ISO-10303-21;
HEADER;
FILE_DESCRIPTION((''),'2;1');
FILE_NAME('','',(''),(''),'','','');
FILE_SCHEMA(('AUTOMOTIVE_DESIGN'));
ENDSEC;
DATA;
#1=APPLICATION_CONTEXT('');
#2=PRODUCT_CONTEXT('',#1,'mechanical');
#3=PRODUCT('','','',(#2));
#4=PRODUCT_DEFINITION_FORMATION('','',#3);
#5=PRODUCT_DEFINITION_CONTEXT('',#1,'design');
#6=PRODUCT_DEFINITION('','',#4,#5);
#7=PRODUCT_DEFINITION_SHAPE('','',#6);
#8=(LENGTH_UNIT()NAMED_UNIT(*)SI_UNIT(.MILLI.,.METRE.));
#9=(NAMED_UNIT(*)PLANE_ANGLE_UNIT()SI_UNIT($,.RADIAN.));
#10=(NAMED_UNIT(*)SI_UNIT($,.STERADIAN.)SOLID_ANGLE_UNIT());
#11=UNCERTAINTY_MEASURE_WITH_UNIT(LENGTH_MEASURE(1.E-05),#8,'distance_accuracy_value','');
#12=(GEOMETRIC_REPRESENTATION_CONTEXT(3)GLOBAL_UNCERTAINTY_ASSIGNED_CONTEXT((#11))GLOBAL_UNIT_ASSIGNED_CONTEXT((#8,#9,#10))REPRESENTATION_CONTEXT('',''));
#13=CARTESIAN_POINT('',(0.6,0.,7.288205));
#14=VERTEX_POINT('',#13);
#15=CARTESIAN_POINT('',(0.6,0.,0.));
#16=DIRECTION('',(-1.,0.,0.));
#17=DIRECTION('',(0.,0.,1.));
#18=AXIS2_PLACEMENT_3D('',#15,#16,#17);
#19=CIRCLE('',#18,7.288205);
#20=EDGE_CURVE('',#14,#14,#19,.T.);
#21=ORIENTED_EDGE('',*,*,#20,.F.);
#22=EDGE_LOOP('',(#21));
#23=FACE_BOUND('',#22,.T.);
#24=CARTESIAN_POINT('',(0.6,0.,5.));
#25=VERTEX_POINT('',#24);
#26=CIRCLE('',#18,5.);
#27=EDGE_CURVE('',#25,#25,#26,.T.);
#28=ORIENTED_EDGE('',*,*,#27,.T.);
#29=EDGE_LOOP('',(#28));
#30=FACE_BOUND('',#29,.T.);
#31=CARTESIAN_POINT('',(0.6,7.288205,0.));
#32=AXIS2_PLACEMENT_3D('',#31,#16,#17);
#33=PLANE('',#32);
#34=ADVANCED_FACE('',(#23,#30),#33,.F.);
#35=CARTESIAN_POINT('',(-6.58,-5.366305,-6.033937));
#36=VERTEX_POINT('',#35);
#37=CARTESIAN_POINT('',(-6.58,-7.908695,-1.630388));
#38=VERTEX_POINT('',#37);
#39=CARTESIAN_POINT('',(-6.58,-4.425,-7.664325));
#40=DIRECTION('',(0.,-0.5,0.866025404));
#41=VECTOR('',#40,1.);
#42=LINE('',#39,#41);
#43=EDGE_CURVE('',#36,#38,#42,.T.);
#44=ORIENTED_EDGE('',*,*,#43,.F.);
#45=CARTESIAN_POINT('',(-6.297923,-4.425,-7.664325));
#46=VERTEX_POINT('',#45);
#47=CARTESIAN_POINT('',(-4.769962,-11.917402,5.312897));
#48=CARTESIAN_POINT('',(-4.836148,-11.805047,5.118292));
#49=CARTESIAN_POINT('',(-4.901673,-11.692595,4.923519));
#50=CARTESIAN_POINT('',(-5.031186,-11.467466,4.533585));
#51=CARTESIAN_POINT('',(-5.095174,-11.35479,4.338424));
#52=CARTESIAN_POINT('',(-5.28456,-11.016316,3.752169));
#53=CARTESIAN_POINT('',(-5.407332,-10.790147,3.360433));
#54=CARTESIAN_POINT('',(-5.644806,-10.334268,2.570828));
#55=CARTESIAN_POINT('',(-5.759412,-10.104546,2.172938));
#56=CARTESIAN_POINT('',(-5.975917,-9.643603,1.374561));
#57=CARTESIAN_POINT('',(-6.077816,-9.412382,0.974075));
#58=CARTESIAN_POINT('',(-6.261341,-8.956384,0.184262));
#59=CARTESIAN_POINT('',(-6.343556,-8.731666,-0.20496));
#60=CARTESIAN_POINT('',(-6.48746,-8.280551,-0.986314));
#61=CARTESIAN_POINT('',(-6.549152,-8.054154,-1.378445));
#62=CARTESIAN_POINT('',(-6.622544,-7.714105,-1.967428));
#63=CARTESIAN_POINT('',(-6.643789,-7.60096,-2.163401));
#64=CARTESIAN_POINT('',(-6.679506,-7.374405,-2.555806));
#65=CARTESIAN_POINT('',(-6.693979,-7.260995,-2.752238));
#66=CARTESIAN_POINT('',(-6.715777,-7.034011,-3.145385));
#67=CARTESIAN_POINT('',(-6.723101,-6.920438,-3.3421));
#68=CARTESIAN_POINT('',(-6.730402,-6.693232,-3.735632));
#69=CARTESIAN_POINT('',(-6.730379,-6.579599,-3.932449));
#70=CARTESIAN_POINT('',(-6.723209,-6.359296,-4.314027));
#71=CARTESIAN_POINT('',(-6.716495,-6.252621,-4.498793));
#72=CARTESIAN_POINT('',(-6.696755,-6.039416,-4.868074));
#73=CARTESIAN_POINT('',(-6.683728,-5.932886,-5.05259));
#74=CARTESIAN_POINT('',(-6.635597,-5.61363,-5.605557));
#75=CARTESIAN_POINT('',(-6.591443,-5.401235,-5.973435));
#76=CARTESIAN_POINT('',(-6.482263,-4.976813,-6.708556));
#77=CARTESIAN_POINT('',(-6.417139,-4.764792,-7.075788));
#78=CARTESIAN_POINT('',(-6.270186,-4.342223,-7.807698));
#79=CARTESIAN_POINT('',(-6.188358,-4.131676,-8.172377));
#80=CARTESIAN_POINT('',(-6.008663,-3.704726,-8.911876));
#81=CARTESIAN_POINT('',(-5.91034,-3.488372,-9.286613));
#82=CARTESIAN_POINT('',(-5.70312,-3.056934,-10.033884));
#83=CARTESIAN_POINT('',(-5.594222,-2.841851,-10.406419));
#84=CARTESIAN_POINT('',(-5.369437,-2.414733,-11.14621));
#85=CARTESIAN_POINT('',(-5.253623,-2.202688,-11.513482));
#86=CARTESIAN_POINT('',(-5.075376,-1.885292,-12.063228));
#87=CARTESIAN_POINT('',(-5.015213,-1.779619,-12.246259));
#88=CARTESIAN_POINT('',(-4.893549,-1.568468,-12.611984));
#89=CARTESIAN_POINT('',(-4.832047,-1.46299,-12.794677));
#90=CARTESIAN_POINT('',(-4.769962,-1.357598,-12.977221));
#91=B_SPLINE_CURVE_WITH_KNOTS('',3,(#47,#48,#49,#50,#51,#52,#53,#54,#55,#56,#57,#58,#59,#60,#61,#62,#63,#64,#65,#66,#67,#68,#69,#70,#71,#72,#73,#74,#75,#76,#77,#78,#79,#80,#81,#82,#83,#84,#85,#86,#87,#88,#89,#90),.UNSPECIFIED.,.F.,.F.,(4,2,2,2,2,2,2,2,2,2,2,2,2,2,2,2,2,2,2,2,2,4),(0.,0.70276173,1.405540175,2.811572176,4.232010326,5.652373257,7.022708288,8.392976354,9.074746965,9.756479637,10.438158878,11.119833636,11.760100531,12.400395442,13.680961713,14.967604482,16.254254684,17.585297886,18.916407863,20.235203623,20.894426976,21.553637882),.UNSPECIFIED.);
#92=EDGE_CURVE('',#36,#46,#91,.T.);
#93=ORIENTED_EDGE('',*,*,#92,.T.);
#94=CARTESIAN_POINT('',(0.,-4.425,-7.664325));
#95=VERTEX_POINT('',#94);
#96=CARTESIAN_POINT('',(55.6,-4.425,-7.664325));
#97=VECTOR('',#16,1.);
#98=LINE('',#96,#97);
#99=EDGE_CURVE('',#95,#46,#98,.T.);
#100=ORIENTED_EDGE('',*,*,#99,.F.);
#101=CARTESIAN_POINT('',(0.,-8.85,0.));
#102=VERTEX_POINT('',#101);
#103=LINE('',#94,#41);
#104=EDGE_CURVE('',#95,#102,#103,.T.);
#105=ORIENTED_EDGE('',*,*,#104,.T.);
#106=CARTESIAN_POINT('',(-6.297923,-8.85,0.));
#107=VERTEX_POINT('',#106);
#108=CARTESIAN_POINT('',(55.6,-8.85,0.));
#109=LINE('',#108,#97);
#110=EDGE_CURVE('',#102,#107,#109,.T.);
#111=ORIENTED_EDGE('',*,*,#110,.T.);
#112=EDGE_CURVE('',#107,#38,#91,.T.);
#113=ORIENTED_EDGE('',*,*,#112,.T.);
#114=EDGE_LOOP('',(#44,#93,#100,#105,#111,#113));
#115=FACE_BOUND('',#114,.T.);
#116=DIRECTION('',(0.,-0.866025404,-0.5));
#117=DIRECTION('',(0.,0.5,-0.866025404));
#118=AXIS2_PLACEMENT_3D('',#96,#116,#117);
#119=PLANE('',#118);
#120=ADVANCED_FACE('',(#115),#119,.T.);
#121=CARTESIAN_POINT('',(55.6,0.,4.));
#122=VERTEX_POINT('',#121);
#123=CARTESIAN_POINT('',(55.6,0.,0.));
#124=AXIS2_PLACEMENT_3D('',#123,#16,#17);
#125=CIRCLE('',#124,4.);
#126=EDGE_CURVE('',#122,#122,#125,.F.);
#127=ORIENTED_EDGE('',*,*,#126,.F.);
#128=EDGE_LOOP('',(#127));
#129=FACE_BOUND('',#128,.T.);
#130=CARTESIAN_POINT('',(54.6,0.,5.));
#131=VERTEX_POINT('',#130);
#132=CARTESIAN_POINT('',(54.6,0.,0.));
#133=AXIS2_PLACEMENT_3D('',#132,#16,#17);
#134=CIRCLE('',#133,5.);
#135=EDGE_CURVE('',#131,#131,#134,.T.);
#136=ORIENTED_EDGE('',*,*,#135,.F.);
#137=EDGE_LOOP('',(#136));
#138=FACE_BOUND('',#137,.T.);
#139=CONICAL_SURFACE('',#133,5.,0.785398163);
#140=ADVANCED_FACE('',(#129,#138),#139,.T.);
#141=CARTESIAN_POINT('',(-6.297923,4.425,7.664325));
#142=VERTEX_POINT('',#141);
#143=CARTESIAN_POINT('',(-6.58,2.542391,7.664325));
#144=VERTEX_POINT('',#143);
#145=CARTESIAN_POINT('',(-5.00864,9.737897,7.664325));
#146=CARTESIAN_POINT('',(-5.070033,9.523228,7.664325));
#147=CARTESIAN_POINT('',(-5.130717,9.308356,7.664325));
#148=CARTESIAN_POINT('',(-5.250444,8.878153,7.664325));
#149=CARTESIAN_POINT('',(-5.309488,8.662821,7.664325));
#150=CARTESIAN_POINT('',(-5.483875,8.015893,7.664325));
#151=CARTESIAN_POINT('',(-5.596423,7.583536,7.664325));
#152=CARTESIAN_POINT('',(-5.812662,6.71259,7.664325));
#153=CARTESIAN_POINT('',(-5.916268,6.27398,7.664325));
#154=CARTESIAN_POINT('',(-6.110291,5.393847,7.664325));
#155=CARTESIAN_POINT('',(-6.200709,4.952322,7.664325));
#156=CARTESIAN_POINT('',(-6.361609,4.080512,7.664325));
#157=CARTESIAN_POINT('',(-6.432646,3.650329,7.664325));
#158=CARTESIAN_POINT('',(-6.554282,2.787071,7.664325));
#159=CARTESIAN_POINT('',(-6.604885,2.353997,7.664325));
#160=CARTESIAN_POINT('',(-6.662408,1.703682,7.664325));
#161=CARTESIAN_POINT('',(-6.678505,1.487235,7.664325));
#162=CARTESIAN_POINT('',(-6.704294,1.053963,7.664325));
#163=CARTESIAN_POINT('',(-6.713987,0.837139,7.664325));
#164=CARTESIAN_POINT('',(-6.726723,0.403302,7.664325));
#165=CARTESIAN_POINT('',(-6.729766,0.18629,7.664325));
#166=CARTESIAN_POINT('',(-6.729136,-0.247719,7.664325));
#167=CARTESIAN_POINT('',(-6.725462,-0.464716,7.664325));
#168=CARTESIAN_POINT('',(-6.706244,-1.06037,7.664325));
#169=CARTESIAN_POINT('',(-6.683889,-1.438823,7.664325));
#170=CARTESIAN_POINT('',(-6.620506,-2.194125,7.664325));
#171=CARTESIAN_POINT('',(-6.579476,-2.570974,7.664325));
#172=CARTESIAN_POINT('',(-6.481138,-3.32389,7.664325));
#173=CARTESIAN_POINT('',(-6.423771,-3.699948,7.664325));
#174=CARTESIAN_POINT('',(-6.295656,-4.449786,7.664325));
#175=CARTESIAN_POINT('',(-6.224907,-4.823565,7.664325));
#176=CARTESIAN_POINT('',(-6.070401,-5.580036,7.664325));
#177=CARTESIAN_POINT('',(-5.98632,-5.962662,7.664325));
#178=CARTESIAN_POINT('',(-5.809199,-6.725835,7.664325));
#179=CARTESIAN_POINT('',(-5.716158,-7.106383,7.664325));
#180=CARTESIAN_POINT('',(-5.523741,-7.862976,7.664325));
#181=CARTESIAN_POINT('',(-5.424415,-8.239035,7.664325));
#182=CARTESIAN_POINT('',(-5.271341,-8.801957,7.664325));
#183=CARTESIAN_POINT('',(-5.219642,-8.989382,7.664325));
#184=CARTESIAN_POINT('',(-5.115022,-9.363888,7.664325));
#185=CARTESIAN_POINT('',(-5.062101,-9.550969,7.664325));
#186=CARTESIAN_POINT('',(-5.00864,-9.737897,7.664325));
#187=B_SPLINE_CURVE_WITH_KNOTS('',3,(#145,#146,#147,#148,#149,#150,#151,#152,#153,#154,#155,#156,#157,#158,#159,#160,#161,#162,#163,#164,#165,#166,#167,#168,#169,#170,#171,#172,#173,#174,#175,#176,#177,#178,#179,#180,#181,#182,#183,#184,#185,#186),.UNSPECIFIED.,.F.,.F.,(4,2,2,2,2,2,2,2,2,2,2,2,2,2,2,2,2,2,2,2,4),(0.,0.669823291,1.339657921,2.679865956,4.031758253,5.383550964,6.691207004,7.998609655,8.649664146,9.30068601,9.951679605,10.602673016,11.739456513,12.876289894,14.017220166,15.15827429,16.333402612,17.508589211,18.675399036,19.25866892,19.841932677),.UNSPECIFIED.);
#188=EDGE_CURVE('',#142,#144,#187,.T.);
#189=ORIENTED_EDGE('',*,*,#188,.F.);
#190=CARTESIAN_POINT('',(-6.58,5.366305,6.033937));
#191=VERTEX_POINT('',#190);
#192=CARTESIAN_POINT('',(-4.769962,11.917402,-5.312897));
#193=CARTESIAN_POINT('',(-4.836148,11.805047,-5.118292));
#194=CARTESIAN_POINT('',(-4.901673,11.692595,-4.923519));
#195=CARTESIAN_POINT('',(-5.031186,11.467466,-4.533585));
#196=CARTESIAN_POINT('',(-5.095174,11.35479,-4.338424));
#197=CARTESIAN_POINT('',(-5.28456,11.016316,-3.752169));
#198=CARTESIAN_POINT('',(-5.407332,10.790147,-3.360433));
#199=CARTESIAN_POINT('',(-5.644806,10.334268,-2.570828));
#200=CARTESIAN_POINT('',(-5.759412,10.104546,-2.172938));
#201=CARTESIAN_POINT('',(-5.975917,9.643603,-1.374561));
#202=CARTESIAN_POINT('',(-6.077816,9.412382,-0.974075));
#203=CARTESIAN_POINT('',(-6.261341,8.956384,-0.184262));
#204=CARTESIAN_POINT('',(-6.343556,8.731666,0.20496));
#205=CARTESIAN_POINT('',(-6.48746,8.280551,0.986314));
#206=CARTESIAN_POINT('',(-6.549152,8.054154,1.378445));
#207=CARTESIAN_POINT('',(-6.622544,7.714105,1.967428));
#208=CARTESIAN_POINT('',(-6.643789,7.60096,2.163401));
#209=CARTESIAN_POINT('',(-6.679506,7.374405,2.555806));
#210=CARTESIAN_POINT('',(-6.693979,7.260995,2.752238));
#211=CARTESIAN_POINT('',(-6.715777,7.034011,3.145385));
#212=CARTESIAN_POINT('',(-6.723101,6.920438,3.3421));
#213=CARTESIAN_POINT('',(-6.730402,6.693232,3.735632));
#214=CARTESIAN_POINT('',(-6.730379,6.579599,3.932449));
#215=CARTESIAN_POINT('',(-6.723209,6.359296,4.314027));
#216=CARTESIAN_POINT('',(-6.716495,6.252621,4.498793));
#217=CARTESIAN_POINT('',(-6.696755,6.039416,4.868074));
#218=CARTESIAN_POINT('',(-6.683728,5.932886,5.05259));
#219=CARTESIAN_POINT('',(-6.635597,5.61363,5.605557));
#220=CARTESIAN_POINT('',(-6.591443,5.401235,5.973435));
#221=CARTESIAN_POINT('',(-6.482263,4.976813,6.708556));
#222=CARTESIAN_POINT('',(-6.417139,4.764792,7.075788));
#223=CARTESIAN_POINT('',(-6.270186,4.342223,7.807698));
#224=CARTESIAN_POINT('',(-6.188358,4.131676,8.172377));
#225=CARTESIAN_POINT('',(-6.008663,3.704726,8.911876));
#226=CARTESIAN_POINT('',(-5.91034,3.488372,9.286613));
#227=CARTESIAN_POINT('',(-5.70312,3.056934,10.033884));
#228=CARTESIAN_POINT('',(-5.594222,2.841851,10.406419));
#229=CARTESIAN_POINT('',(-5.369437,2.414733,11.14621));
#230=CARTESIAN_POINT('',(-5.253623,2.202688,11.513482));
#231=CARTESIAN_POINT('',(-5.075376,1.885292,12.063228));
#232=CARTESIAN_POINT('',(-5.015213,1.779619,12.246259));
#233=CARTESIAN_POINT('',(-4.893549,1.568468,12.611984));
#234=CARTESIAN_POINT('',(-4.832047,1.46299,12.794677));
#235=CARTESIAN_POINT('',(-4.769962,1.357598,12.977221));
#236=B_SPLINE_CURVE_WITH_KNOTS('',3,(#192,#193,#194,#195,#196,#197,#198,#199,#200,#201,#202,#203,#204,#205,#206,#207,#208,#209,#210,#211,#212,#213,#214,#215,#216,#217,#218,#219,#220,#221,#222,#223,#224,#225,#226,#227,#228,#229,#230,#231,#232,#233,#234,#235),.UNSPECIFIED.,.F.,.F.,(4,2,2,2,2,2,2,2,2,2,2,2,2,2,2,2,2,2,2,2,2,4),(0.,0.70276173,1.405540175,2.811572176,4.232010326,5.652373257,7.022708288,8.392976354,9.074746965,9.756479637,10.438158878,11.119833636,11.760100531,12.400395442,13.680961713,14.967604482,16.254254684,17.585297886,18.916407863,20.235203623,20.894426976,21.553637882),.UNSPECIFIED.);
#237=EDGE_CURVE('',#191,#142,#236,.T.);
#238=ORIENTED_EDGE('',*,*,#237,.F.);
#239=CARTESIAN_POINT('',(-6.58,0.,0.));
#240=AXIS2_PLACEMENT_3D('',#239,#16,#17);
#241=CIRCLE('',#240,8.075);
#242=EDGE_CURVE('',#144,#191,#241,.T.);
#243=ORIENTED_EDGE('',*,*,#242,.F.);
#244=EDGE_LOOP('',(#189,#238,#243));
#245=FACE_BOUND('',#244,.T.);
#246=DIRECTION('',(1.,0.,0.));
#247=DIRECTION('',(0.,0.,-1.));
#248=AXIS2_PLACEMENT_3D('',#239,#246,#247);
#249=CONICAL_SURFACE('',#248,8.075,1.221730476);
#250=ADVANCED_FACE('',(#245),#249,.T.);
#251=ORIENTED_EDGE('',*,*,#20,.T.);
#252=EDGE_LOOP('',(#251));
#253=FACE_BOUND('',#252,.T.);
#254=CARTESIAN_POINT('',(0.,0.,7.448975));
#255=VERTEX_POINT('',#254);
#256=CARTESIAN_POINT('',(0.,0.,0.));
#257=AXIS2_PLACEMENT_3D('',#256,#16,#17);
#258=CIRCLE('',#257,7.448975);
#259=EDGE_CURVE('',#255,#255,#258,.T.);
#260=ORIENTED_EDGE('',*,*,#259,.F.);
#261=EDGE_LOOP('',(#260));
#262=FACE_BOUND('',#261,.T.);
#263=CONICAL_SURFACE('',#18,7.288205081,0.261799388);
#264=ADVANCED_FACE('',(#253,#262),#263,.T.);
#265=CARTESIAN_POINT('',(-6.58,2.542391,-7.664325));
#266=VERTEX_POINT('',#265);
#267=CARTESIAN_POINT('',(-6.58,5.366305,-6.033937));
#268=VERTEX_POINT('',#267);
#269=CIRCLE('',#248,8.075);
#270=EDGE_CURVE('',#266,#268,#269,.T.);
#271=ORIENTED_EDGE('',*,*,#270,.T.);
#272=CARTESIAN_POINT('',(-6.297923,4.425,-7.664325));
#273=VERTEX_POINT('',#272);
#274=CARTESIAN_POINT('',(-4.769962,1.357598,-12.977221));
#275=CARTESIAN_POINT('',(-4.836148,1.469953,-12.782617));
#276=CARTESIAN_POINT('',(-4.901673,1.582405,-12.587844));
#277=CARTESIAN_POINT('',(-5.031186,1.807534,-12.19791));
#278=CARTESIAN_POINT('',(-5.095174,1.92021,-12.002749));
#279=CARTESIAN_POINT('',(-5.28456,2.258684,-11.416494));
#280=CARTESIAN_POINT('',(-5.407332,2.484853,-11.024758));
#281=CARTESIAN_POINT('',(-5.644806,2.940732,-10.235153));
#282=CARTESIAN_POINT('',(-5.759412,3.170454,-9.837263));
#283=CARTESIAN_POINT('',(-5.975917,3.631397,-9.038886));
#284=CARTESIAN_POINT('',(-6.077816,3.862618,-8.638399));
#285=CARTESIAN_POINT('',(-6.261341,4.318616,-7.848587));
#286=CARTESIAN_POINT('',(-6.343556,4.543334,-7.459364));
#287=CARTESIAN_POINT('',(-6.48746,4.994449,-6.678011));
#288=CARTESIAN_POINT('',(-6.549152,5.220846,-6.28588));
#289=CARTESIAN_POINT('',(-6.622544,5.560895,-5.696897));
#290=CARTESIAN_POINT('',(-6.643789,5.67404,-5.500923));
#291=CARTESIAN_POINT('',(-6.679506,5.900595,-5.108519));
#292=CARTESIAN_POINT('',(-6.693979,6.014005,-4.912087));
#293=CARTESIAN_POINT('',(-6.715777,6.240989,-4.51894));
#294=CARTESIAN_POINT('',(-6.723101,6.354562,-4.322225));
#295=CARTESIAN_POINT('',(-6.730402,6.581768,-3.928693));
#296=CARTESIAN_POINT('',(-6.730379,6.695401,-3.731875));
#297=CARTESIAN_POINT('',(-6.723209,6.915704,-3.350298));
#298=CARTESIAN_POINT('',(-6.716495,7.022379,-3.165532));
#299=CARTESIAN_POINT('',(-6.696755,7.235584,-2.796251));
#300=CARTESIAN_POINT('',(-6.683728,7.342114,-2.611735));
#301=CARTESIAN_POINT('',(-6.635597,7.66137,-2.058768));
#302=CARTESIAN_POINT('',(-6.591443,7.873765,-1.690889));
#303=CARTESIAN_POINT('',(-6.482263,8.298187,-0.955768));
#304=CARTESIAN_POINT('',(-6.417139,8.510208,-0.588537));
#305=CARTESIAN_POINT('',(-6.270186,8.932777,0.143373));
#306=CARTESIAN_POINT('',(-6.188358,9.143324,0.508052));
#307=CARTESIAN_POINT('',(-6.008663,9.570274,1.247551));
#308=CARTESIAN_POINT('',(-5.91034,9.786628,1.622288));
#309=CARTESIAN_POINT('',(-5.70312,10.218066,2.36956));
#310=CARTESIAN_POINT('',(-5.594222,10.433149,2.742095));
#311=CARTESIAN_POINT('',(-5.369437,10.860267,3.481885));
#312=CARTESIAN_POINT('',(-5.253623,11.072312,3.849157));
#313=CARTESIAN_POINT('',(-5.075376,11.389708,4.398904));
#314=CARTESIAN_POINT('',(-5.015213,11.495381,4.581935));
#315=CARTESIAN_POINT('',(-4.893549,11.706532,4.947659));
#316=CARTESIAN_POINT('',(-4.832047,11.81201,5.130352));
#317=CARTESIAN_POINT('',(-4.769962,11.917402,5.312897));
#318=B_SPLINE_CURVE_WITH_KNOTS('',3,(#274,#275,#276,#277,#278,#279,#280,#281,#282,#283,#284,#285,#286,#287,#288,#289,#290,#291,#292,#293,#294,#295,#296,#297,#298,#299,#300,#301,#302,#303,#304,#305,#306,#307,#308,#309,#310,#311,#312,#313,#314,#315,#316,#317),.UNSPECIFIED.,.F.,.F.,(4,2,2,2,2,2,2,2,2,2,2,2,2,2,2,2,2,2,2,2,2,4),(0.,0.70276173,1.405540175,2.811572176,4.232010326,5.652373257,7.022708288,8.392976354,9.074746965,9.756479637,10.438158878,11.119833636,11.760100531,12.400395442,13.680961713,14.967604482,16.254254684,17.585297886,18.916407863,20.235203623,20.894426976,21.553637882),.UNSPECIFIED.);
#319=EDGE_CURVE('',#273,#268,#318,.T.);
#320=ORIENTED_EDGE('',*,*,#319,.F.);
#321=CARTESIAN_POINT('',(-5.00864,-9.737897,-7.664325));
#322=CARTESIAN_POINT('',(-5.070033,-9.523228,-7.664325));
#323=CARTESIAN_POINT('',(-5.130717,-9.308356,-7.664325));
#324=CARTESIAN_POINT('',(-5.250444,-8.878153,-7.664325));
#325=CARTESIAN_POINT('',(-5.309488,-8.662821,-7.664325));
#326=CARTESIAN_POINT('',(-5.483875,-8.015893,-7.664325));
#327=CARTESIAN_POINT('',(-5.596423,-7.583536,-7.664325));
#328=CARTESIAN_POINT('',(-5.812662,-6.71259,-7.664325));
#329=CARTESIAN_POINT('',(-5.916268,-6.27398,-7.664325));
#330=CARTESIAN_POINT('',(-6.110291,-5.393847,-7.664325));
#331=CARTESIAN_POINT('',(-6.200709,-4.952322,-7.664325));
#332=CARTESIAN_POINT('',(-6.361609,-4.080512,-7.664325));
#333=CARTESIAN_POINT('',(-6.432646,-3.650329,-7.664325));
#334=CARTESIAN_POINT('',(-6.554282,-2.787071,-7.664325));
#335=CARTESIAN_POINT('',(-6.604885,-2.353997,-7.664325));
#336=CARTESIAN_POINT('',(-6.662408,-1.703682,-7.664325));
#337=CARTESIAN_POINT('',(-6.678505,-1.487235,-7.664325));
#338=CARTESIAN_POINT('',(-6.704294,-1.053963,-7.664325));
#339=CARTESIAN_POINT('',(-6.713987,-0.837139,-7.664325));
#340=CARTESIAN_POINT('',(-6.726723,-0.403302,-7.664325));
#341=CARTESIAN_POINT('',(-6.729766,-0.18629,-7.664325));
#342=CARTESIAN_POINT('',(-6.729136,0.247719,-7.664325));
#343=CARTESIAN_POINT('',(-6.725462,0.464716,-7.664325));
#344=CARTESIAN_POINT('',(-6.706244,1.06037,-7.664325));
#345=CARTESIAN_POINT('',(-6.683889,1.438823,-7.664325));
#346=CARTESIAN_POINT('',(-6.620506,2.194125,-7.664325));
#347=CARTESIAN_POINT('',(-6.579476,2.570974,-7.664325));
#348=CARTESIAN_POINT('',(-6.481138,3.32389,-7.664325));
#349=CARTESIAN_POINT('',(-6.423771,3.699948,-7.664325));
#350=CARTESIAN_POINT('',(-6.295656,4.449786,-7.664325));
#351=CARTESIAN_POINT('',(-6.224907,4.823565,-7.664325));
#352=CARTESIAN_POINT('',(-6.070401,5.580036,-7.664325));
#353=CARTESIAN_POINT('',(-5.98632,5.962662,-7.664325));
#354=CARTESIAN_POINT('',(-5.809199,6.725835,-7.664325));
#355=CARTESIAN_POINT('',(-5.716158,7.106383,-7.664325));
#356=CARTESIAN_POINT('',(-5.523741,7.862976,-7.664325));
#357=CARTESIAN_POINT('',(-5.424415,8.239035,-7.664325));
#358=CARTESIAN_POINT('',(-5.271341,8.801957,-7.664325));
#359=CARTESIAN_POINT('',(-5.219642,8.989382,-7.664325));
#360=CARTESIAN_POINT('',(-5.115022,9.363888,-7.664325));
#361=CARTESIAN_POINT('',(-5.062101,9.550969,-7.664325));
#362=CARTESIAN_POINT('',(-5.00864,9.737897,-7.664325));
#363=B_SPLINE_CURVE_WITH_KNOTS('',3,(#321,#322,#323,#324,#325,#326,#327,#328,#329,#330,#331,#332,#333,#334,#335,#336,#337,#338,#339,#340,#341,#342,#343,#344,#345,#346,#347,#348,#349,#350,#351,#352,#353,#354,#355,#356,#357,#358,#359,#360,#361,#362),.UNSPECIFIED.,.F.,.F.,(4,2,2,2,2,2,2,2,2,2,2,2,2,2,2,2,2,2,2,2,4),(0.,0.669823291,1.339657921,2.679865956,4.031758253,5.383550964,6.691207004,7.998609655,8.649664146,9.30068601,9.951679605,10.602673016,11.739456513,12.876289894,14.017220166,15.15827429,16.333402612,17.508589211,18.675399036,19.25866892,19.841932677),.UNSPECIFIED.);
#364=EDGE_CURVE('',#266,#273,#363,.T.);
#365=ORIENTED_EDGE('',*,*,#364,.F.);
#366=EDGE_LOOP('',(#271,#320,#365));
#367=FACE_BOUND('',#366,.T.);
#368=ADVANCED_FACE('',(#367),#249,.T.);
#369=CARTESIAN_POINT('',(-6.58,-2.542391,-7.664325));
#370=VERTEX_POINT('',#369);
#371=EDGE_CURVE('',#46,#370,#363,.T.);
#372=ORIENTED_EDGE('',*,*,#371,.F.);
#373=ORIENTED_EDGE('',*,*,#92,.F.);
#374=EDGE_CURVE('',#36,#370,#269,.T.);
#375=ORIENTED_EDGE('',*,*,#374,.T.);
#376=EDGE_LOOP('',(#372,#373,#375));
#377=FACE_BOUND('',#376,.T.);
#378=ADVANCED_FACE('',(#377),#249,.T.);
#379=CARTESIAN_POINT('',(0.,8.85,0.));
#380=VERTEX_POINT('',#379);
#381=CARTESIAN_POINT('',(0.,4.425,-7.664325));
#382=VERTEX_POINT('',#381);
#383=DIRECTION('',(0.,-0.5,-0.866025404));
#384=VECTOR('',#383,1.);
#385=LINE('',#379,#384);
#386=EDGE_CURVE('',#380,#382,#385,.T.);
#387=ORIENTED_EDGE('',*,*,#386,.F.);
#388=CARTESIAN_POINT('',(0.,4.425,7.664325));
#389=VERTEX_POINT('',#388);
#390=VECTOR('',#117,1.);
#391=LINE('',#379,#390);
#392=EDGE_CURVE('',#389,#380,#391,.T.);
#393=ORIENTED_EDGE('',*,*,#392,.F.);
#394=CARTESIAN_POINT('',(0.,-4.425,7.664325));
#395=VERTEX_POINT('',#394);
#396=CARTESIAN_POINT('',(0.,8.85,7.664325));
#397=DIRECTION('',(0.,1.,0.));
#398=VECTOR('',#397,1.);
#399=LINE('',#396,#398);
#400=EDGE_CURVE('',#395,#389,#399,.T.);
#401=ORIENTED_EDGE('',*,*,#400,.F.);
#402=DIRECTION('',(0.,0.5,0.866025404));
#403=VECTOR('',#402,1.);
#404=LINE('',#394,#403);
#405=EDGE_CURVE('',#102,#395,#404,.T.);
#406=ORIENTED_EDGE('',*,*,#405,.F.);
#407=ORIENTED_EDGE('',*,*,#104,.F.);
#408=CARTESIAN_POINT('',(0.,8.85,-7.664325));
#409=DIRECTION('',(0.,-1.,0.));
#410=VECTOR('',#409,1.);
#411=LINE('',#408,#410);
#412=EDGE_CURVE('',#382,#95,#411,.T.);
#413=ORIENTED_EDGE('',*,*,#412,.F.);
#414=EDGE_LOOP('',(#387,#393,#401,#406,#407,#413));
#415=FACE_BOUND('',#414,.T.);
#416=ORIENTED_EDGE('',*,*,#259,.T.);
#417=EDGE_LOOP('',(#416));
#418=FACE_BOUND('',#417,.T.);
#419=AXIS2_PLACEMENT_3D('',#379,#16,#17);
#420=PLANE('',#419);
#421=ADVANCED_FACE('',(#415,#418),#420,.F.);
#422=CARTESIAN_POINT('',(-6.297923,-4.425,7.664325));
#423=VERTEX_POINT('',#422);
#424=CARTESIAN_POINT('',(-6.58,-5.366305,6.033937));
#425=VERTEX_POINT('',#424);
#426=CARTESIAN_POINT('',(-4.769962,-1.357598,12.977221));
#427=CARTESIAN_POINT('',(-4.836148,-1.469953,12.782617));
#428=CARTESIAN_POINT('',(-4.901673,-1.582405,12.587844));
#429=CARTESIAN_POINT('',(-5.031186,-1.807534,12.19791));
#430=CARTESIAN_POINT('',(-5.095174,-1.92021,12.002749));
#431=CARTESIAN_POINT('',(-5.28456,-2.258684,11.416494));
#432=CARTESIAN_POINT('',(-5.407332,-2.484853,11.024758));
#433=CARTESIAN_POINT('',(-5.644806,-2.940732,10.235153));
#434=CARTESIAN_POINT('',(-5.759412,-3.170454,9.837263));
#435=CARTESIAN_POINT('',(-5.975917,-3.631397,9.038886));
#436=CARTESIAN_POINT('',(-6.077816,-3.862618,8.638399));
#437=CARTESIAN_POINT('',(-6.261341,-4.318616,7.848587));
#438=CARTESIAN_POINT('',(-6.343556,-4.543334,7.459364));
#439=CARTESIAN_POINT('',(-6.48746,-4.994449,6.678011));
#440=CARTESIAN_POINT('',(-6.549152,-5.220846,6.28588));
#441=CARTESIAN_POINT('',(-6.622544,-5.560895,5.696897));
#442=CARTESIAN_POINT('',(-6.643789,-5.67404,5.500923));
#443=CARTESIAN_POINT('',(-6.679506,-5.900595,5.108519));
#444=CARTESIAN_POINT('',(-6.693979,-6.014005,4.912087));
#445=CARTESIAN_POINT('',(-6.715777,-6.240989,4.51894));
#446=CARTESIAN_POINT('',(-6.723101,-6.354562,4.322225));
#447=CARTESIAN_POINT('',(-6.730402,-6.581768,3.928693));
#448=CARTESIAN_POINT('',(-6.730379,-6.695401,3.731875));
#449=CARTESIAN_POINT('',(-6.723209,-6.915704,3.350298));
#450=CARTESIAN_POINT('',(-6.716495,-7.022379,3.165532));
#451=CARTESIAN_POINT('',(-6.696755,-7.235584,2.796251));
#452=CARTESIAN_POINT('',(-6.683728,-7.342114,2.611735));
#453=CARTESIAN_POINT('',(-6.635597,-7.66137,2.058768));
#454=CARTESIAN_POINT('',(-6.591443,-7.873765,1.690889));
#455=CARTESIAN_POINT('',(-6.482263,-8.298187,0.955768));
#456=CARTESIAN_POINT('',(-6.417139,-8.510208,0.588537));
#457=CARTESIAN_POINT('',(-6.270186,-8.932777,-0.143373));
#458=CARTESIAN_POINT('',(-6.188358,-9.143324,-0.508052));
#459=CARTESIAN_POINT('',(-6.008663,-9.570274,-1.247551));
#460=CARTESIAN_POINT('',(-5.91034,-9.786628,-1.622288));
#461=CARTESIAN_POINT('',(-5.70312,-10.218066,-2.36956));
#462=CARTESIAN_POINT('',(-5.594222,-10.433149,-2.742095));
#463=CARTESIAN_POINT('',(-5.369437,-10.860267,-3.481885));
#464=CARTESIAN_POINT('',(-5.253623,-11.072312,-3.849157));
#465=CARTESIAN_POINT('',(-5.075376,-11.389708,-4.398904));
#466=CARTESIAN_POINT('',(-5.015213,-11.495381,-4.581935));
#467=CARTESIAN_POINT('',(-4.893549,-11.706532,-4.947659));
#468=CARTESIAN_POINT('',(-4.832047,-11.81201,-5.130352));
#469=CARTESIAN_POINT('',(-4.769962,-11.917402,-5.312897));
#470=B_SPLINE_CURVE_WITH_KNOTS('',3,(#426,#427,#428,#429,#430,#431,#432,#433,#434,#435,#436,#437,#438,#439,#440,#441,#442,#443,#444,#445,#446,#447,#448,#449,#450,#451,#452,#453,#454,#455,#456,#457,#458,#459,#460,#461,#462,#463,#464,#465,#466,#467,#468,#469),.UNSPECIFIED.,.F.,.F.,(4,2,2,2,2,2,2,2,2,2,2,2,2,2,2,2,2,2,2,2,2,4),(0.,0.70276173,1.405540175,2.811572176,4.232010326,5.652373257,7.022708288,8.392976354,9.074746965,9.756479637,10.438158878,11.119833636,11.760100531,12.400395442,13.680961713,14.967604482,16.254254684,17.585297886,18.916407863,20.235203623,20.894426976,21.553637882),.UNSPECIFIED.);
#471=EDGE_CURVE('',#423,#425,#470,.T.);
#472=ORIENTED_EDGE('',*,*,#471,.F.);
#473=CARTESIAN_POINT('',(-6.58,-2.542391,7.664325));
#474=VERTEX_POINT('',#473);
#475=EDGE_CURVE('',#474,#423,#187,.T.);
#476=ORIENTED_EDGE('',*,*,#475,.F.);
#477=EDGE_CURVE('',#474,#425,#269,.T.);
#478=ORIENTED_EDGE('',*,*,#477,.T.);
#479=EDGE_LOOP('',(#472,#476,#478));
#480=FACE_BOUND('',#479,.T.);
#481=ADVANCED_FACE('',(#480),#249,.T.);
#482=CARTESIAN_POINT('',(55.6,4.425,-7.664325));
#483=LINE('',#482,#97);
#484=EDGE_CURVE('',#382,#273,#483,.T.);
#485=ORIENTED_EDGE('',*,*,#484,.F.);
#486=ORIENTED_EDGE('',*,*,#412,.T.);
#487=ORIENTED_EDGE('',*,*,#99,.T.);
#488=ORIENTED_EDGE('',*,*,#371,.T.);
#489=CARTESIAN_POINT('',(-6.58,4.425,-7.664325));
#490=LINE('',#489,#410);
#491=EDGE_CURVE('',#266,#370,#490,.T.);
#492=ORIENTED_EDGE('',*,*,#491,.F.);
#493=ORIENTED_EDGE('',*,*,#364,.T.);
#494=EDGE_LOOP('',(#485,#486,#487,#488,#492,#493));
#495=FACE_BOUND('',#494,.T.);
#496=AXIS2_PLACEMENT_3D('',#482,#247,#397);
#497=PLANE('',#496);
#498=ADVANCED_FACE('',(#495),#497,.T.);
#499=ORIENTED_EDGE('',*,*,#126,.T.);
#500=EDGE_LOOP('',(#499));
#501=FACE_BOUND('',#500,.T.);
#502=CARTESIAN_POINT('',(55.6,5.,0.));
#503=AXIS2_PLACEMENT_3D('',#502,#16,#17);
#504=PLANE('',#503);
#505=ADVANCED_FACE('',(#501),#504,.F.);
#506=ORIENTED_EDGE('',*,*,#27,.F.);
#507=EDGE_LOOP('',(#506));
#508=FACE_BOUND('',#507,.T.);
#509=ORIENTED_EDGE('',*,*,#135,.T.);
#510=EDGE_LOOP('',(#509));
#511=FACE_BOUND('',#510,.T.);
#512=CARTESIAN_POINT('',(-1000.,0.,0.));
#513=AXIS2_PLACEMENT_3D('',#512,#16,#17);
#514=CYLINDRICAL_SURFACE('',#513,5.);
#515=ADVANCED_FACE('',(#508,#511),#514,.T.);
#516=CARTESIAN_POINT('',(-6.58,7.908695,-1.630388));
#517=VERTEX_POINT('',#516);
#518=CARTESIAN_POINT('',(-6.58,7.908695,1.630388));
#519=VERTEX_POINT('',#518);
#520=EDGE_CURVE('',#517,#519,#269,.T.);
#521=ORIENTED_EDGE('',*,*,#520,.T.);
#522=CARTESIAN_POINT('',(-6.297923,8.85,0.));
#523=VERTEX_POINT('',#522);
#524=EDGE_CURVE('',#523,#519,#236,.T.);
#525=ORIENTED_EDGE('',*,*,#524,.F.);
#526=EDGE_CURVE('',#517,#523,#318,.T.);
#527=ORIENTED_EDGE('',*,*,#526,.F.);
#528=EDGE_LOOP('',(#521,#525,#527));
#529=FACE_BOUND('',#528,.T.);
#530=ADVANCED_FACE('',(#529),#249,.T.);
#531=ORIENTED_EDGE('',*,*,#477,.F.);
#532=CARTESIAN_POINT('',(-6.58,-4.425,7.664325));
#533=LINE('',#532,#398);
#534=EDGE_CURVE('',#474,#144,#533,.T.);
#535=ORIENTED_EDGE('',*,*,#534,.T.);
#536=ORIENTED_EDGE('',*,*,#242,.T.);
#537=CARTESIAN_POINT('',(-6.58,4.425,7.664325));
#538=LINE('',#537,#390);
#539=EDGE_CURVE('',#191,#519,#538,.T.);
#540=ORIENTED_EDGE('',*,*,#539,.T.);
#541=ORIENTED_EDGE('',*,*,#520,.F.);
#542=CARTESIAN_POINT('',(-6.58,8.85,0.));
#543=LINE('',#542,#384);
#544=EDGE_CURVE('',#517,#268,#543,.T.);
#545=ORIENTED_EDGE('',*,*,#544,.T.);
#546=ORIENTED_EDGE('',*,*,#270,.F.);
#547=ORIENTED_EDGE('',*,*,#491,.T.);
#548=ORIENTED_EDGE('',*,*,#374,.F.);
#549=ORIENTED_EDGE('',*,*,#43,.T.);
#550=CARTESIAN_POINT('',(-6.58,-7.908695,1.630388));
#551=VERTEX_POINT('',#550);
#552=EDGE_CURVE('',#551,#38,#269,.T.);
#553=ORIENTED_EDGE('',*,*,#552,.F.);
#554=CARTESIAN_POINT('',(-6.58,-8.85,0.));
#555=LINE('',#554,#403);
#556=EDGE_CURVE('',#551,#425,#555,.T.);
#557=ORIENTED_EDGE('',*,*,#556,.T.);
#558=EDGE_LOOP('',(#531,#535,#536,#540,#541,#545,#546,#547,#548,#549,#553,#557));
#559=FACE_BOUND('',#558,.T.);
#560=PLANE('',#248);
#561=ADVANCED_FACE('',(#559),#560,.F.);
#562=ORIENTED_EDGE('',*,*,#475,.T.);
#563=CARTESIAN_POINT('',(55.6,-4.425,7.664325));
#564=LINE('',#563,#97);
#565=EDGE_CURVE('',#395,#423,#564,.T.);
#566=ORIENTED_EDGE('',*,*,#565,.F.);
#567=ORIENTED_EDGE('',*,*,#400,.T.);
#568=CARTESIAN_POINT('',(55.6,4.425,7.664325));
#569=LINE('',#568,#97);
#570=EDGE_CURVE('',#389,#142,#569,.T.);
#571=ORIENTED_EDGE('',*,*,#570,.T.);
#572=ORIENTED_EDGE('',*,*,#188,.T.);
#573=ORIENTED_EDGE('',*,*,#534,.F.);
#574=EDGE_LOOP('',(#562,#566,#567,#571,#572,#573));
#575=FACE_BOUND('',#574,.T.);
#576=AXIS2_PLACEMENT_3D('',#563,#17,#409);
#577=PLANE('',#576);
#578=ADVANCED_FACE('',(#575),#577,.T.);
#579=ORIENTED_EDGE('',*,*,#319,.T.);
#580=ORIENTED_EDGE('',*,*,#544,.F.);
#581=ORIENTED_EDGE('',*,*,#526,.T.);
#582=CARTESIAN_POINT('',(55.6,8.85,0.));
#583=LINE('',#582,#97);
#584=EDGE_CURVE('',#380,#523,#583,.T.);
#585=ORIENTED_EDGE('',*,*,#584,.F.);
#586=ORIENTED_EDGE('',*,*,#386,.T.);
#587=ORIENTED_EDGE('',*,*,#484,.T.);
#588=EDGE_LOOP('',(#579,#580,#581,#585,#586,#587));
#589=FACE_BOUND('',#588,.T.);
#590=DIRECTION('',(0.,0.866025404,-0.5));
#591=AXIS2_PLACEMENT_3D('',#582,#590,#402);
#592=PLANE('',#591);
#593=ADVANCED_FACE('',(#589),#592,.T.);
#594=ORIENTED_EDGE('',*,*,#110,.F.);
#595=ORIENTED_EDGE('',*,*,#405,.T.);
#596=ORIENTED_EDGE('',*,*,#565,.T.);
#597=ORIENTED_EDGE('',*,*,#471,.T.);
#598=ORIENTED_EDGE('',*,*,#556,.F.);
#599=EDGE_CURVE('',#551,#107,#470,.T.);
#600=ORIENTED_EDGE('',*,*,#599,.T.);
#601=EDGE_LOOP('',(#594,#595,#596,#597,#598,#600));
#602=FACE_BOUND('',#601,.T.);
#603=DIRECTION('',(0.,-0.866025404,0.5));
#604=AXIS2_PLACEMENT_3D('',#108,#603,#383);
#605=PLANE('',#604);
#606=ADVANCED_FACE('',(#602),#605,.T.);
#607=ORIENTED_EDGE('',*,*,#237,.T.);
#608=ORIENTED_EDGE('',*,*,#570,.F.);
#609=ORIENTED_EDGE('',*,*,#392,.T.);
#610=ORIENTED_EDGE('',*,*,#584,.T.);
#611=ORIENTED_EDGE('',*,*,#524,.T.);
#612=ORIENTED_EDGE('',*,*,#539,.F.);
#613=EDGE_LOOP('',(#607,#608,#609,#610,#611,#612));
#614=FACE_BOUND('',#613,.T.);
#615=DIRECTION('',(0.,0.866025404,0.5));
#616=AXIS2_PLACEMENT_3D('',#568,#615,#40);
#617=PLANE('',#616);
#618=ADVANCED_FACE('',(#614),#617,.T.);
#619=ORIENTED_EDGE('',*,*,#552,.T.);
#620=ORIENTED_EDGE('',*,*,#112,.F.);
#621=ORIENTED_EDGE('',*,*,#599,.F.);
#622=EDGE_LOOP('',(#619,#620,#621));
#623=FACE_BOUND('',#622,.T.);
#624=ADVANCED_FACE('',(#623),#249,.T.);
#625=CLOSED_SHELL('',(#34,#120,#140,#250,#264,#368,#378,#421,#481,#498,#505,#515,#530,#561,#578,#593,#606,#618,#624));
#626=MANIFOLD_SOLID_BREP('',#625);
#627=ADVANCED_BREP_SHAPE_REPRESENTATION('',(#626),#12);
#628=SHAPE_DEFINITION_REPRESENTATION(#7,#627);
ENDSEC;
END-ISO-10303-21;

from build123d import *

# Parameters (mm, degrees)
SKETCH_2_OUTSIDE_W  = 33.106
SKETCH_2_OUTSIDE_H  = 33.106
CUT_EXTRUDE_1_DEPTH = 64.42710304
CHAMFER_1_SIZE      = 1


with BuildPart() as part:
    # Эскиз1 → Повернуть1 (revolve)
    with BuildSketch(Plane.XY, mode=Mode.PRIVATE) as revolve_1_sk:
        Polygon((-6.58, 0), (-6.58, 8.85), (0, 8.85), (0, 7.448974596), (0.6, 7.288205081), (0.6, 5), (55.6, 5), (55.6, 0), align=None)
    revolve(revolve_1_sk.sketch.rotate(Axis((-1000, 0, 0), (1, 0, 0)), 90), axis=Axis((-1000, 0, 0), (1, 0, 0)))

    # Эскиз2 outside → Вырез-Вытянуть1 (cut, through all)
    with BuildSketch(Plane.ZY.offset(6.58)):
        Rectangle(SKETCH_2_OUTSIDE_W, SKETCH_2_OUTSIDE_H)
        Polygon((0, -8.85), (7.664324823, -4.425), (7.664324823, 4.425), (0, 8.85), (-7.664324823, 4.425), (-7.664324823, -4.425), align=None, mode=Mode.SUBTRACT)
    extrude(amount=-CUT_EXTRUDE_1_DEPTH, mode=Mode.SUBTRACT)

    # Эскиз4 → Вырез-Повернуть1 (revolve, cut)
    with BuildSketch(Plane.XY):
        Polygon((-6.58, 8.075), (-6.297923068, 8.85), (-6.58, 8.85), align=None)
    revolve(axis=Axis((-1000, 0, 0), (1, 0, 0)), mode=Mode.SUBTRACT)

    # Фаска1
    chamfer_1_edges = [part.edges().sort_by_distance(p)[0] for p in [
        (55.6, 0, -5),
    ]]
    chamfer(chamfer_1_edges, length=CHAMFER_1_SIZE)


solid = part.part
